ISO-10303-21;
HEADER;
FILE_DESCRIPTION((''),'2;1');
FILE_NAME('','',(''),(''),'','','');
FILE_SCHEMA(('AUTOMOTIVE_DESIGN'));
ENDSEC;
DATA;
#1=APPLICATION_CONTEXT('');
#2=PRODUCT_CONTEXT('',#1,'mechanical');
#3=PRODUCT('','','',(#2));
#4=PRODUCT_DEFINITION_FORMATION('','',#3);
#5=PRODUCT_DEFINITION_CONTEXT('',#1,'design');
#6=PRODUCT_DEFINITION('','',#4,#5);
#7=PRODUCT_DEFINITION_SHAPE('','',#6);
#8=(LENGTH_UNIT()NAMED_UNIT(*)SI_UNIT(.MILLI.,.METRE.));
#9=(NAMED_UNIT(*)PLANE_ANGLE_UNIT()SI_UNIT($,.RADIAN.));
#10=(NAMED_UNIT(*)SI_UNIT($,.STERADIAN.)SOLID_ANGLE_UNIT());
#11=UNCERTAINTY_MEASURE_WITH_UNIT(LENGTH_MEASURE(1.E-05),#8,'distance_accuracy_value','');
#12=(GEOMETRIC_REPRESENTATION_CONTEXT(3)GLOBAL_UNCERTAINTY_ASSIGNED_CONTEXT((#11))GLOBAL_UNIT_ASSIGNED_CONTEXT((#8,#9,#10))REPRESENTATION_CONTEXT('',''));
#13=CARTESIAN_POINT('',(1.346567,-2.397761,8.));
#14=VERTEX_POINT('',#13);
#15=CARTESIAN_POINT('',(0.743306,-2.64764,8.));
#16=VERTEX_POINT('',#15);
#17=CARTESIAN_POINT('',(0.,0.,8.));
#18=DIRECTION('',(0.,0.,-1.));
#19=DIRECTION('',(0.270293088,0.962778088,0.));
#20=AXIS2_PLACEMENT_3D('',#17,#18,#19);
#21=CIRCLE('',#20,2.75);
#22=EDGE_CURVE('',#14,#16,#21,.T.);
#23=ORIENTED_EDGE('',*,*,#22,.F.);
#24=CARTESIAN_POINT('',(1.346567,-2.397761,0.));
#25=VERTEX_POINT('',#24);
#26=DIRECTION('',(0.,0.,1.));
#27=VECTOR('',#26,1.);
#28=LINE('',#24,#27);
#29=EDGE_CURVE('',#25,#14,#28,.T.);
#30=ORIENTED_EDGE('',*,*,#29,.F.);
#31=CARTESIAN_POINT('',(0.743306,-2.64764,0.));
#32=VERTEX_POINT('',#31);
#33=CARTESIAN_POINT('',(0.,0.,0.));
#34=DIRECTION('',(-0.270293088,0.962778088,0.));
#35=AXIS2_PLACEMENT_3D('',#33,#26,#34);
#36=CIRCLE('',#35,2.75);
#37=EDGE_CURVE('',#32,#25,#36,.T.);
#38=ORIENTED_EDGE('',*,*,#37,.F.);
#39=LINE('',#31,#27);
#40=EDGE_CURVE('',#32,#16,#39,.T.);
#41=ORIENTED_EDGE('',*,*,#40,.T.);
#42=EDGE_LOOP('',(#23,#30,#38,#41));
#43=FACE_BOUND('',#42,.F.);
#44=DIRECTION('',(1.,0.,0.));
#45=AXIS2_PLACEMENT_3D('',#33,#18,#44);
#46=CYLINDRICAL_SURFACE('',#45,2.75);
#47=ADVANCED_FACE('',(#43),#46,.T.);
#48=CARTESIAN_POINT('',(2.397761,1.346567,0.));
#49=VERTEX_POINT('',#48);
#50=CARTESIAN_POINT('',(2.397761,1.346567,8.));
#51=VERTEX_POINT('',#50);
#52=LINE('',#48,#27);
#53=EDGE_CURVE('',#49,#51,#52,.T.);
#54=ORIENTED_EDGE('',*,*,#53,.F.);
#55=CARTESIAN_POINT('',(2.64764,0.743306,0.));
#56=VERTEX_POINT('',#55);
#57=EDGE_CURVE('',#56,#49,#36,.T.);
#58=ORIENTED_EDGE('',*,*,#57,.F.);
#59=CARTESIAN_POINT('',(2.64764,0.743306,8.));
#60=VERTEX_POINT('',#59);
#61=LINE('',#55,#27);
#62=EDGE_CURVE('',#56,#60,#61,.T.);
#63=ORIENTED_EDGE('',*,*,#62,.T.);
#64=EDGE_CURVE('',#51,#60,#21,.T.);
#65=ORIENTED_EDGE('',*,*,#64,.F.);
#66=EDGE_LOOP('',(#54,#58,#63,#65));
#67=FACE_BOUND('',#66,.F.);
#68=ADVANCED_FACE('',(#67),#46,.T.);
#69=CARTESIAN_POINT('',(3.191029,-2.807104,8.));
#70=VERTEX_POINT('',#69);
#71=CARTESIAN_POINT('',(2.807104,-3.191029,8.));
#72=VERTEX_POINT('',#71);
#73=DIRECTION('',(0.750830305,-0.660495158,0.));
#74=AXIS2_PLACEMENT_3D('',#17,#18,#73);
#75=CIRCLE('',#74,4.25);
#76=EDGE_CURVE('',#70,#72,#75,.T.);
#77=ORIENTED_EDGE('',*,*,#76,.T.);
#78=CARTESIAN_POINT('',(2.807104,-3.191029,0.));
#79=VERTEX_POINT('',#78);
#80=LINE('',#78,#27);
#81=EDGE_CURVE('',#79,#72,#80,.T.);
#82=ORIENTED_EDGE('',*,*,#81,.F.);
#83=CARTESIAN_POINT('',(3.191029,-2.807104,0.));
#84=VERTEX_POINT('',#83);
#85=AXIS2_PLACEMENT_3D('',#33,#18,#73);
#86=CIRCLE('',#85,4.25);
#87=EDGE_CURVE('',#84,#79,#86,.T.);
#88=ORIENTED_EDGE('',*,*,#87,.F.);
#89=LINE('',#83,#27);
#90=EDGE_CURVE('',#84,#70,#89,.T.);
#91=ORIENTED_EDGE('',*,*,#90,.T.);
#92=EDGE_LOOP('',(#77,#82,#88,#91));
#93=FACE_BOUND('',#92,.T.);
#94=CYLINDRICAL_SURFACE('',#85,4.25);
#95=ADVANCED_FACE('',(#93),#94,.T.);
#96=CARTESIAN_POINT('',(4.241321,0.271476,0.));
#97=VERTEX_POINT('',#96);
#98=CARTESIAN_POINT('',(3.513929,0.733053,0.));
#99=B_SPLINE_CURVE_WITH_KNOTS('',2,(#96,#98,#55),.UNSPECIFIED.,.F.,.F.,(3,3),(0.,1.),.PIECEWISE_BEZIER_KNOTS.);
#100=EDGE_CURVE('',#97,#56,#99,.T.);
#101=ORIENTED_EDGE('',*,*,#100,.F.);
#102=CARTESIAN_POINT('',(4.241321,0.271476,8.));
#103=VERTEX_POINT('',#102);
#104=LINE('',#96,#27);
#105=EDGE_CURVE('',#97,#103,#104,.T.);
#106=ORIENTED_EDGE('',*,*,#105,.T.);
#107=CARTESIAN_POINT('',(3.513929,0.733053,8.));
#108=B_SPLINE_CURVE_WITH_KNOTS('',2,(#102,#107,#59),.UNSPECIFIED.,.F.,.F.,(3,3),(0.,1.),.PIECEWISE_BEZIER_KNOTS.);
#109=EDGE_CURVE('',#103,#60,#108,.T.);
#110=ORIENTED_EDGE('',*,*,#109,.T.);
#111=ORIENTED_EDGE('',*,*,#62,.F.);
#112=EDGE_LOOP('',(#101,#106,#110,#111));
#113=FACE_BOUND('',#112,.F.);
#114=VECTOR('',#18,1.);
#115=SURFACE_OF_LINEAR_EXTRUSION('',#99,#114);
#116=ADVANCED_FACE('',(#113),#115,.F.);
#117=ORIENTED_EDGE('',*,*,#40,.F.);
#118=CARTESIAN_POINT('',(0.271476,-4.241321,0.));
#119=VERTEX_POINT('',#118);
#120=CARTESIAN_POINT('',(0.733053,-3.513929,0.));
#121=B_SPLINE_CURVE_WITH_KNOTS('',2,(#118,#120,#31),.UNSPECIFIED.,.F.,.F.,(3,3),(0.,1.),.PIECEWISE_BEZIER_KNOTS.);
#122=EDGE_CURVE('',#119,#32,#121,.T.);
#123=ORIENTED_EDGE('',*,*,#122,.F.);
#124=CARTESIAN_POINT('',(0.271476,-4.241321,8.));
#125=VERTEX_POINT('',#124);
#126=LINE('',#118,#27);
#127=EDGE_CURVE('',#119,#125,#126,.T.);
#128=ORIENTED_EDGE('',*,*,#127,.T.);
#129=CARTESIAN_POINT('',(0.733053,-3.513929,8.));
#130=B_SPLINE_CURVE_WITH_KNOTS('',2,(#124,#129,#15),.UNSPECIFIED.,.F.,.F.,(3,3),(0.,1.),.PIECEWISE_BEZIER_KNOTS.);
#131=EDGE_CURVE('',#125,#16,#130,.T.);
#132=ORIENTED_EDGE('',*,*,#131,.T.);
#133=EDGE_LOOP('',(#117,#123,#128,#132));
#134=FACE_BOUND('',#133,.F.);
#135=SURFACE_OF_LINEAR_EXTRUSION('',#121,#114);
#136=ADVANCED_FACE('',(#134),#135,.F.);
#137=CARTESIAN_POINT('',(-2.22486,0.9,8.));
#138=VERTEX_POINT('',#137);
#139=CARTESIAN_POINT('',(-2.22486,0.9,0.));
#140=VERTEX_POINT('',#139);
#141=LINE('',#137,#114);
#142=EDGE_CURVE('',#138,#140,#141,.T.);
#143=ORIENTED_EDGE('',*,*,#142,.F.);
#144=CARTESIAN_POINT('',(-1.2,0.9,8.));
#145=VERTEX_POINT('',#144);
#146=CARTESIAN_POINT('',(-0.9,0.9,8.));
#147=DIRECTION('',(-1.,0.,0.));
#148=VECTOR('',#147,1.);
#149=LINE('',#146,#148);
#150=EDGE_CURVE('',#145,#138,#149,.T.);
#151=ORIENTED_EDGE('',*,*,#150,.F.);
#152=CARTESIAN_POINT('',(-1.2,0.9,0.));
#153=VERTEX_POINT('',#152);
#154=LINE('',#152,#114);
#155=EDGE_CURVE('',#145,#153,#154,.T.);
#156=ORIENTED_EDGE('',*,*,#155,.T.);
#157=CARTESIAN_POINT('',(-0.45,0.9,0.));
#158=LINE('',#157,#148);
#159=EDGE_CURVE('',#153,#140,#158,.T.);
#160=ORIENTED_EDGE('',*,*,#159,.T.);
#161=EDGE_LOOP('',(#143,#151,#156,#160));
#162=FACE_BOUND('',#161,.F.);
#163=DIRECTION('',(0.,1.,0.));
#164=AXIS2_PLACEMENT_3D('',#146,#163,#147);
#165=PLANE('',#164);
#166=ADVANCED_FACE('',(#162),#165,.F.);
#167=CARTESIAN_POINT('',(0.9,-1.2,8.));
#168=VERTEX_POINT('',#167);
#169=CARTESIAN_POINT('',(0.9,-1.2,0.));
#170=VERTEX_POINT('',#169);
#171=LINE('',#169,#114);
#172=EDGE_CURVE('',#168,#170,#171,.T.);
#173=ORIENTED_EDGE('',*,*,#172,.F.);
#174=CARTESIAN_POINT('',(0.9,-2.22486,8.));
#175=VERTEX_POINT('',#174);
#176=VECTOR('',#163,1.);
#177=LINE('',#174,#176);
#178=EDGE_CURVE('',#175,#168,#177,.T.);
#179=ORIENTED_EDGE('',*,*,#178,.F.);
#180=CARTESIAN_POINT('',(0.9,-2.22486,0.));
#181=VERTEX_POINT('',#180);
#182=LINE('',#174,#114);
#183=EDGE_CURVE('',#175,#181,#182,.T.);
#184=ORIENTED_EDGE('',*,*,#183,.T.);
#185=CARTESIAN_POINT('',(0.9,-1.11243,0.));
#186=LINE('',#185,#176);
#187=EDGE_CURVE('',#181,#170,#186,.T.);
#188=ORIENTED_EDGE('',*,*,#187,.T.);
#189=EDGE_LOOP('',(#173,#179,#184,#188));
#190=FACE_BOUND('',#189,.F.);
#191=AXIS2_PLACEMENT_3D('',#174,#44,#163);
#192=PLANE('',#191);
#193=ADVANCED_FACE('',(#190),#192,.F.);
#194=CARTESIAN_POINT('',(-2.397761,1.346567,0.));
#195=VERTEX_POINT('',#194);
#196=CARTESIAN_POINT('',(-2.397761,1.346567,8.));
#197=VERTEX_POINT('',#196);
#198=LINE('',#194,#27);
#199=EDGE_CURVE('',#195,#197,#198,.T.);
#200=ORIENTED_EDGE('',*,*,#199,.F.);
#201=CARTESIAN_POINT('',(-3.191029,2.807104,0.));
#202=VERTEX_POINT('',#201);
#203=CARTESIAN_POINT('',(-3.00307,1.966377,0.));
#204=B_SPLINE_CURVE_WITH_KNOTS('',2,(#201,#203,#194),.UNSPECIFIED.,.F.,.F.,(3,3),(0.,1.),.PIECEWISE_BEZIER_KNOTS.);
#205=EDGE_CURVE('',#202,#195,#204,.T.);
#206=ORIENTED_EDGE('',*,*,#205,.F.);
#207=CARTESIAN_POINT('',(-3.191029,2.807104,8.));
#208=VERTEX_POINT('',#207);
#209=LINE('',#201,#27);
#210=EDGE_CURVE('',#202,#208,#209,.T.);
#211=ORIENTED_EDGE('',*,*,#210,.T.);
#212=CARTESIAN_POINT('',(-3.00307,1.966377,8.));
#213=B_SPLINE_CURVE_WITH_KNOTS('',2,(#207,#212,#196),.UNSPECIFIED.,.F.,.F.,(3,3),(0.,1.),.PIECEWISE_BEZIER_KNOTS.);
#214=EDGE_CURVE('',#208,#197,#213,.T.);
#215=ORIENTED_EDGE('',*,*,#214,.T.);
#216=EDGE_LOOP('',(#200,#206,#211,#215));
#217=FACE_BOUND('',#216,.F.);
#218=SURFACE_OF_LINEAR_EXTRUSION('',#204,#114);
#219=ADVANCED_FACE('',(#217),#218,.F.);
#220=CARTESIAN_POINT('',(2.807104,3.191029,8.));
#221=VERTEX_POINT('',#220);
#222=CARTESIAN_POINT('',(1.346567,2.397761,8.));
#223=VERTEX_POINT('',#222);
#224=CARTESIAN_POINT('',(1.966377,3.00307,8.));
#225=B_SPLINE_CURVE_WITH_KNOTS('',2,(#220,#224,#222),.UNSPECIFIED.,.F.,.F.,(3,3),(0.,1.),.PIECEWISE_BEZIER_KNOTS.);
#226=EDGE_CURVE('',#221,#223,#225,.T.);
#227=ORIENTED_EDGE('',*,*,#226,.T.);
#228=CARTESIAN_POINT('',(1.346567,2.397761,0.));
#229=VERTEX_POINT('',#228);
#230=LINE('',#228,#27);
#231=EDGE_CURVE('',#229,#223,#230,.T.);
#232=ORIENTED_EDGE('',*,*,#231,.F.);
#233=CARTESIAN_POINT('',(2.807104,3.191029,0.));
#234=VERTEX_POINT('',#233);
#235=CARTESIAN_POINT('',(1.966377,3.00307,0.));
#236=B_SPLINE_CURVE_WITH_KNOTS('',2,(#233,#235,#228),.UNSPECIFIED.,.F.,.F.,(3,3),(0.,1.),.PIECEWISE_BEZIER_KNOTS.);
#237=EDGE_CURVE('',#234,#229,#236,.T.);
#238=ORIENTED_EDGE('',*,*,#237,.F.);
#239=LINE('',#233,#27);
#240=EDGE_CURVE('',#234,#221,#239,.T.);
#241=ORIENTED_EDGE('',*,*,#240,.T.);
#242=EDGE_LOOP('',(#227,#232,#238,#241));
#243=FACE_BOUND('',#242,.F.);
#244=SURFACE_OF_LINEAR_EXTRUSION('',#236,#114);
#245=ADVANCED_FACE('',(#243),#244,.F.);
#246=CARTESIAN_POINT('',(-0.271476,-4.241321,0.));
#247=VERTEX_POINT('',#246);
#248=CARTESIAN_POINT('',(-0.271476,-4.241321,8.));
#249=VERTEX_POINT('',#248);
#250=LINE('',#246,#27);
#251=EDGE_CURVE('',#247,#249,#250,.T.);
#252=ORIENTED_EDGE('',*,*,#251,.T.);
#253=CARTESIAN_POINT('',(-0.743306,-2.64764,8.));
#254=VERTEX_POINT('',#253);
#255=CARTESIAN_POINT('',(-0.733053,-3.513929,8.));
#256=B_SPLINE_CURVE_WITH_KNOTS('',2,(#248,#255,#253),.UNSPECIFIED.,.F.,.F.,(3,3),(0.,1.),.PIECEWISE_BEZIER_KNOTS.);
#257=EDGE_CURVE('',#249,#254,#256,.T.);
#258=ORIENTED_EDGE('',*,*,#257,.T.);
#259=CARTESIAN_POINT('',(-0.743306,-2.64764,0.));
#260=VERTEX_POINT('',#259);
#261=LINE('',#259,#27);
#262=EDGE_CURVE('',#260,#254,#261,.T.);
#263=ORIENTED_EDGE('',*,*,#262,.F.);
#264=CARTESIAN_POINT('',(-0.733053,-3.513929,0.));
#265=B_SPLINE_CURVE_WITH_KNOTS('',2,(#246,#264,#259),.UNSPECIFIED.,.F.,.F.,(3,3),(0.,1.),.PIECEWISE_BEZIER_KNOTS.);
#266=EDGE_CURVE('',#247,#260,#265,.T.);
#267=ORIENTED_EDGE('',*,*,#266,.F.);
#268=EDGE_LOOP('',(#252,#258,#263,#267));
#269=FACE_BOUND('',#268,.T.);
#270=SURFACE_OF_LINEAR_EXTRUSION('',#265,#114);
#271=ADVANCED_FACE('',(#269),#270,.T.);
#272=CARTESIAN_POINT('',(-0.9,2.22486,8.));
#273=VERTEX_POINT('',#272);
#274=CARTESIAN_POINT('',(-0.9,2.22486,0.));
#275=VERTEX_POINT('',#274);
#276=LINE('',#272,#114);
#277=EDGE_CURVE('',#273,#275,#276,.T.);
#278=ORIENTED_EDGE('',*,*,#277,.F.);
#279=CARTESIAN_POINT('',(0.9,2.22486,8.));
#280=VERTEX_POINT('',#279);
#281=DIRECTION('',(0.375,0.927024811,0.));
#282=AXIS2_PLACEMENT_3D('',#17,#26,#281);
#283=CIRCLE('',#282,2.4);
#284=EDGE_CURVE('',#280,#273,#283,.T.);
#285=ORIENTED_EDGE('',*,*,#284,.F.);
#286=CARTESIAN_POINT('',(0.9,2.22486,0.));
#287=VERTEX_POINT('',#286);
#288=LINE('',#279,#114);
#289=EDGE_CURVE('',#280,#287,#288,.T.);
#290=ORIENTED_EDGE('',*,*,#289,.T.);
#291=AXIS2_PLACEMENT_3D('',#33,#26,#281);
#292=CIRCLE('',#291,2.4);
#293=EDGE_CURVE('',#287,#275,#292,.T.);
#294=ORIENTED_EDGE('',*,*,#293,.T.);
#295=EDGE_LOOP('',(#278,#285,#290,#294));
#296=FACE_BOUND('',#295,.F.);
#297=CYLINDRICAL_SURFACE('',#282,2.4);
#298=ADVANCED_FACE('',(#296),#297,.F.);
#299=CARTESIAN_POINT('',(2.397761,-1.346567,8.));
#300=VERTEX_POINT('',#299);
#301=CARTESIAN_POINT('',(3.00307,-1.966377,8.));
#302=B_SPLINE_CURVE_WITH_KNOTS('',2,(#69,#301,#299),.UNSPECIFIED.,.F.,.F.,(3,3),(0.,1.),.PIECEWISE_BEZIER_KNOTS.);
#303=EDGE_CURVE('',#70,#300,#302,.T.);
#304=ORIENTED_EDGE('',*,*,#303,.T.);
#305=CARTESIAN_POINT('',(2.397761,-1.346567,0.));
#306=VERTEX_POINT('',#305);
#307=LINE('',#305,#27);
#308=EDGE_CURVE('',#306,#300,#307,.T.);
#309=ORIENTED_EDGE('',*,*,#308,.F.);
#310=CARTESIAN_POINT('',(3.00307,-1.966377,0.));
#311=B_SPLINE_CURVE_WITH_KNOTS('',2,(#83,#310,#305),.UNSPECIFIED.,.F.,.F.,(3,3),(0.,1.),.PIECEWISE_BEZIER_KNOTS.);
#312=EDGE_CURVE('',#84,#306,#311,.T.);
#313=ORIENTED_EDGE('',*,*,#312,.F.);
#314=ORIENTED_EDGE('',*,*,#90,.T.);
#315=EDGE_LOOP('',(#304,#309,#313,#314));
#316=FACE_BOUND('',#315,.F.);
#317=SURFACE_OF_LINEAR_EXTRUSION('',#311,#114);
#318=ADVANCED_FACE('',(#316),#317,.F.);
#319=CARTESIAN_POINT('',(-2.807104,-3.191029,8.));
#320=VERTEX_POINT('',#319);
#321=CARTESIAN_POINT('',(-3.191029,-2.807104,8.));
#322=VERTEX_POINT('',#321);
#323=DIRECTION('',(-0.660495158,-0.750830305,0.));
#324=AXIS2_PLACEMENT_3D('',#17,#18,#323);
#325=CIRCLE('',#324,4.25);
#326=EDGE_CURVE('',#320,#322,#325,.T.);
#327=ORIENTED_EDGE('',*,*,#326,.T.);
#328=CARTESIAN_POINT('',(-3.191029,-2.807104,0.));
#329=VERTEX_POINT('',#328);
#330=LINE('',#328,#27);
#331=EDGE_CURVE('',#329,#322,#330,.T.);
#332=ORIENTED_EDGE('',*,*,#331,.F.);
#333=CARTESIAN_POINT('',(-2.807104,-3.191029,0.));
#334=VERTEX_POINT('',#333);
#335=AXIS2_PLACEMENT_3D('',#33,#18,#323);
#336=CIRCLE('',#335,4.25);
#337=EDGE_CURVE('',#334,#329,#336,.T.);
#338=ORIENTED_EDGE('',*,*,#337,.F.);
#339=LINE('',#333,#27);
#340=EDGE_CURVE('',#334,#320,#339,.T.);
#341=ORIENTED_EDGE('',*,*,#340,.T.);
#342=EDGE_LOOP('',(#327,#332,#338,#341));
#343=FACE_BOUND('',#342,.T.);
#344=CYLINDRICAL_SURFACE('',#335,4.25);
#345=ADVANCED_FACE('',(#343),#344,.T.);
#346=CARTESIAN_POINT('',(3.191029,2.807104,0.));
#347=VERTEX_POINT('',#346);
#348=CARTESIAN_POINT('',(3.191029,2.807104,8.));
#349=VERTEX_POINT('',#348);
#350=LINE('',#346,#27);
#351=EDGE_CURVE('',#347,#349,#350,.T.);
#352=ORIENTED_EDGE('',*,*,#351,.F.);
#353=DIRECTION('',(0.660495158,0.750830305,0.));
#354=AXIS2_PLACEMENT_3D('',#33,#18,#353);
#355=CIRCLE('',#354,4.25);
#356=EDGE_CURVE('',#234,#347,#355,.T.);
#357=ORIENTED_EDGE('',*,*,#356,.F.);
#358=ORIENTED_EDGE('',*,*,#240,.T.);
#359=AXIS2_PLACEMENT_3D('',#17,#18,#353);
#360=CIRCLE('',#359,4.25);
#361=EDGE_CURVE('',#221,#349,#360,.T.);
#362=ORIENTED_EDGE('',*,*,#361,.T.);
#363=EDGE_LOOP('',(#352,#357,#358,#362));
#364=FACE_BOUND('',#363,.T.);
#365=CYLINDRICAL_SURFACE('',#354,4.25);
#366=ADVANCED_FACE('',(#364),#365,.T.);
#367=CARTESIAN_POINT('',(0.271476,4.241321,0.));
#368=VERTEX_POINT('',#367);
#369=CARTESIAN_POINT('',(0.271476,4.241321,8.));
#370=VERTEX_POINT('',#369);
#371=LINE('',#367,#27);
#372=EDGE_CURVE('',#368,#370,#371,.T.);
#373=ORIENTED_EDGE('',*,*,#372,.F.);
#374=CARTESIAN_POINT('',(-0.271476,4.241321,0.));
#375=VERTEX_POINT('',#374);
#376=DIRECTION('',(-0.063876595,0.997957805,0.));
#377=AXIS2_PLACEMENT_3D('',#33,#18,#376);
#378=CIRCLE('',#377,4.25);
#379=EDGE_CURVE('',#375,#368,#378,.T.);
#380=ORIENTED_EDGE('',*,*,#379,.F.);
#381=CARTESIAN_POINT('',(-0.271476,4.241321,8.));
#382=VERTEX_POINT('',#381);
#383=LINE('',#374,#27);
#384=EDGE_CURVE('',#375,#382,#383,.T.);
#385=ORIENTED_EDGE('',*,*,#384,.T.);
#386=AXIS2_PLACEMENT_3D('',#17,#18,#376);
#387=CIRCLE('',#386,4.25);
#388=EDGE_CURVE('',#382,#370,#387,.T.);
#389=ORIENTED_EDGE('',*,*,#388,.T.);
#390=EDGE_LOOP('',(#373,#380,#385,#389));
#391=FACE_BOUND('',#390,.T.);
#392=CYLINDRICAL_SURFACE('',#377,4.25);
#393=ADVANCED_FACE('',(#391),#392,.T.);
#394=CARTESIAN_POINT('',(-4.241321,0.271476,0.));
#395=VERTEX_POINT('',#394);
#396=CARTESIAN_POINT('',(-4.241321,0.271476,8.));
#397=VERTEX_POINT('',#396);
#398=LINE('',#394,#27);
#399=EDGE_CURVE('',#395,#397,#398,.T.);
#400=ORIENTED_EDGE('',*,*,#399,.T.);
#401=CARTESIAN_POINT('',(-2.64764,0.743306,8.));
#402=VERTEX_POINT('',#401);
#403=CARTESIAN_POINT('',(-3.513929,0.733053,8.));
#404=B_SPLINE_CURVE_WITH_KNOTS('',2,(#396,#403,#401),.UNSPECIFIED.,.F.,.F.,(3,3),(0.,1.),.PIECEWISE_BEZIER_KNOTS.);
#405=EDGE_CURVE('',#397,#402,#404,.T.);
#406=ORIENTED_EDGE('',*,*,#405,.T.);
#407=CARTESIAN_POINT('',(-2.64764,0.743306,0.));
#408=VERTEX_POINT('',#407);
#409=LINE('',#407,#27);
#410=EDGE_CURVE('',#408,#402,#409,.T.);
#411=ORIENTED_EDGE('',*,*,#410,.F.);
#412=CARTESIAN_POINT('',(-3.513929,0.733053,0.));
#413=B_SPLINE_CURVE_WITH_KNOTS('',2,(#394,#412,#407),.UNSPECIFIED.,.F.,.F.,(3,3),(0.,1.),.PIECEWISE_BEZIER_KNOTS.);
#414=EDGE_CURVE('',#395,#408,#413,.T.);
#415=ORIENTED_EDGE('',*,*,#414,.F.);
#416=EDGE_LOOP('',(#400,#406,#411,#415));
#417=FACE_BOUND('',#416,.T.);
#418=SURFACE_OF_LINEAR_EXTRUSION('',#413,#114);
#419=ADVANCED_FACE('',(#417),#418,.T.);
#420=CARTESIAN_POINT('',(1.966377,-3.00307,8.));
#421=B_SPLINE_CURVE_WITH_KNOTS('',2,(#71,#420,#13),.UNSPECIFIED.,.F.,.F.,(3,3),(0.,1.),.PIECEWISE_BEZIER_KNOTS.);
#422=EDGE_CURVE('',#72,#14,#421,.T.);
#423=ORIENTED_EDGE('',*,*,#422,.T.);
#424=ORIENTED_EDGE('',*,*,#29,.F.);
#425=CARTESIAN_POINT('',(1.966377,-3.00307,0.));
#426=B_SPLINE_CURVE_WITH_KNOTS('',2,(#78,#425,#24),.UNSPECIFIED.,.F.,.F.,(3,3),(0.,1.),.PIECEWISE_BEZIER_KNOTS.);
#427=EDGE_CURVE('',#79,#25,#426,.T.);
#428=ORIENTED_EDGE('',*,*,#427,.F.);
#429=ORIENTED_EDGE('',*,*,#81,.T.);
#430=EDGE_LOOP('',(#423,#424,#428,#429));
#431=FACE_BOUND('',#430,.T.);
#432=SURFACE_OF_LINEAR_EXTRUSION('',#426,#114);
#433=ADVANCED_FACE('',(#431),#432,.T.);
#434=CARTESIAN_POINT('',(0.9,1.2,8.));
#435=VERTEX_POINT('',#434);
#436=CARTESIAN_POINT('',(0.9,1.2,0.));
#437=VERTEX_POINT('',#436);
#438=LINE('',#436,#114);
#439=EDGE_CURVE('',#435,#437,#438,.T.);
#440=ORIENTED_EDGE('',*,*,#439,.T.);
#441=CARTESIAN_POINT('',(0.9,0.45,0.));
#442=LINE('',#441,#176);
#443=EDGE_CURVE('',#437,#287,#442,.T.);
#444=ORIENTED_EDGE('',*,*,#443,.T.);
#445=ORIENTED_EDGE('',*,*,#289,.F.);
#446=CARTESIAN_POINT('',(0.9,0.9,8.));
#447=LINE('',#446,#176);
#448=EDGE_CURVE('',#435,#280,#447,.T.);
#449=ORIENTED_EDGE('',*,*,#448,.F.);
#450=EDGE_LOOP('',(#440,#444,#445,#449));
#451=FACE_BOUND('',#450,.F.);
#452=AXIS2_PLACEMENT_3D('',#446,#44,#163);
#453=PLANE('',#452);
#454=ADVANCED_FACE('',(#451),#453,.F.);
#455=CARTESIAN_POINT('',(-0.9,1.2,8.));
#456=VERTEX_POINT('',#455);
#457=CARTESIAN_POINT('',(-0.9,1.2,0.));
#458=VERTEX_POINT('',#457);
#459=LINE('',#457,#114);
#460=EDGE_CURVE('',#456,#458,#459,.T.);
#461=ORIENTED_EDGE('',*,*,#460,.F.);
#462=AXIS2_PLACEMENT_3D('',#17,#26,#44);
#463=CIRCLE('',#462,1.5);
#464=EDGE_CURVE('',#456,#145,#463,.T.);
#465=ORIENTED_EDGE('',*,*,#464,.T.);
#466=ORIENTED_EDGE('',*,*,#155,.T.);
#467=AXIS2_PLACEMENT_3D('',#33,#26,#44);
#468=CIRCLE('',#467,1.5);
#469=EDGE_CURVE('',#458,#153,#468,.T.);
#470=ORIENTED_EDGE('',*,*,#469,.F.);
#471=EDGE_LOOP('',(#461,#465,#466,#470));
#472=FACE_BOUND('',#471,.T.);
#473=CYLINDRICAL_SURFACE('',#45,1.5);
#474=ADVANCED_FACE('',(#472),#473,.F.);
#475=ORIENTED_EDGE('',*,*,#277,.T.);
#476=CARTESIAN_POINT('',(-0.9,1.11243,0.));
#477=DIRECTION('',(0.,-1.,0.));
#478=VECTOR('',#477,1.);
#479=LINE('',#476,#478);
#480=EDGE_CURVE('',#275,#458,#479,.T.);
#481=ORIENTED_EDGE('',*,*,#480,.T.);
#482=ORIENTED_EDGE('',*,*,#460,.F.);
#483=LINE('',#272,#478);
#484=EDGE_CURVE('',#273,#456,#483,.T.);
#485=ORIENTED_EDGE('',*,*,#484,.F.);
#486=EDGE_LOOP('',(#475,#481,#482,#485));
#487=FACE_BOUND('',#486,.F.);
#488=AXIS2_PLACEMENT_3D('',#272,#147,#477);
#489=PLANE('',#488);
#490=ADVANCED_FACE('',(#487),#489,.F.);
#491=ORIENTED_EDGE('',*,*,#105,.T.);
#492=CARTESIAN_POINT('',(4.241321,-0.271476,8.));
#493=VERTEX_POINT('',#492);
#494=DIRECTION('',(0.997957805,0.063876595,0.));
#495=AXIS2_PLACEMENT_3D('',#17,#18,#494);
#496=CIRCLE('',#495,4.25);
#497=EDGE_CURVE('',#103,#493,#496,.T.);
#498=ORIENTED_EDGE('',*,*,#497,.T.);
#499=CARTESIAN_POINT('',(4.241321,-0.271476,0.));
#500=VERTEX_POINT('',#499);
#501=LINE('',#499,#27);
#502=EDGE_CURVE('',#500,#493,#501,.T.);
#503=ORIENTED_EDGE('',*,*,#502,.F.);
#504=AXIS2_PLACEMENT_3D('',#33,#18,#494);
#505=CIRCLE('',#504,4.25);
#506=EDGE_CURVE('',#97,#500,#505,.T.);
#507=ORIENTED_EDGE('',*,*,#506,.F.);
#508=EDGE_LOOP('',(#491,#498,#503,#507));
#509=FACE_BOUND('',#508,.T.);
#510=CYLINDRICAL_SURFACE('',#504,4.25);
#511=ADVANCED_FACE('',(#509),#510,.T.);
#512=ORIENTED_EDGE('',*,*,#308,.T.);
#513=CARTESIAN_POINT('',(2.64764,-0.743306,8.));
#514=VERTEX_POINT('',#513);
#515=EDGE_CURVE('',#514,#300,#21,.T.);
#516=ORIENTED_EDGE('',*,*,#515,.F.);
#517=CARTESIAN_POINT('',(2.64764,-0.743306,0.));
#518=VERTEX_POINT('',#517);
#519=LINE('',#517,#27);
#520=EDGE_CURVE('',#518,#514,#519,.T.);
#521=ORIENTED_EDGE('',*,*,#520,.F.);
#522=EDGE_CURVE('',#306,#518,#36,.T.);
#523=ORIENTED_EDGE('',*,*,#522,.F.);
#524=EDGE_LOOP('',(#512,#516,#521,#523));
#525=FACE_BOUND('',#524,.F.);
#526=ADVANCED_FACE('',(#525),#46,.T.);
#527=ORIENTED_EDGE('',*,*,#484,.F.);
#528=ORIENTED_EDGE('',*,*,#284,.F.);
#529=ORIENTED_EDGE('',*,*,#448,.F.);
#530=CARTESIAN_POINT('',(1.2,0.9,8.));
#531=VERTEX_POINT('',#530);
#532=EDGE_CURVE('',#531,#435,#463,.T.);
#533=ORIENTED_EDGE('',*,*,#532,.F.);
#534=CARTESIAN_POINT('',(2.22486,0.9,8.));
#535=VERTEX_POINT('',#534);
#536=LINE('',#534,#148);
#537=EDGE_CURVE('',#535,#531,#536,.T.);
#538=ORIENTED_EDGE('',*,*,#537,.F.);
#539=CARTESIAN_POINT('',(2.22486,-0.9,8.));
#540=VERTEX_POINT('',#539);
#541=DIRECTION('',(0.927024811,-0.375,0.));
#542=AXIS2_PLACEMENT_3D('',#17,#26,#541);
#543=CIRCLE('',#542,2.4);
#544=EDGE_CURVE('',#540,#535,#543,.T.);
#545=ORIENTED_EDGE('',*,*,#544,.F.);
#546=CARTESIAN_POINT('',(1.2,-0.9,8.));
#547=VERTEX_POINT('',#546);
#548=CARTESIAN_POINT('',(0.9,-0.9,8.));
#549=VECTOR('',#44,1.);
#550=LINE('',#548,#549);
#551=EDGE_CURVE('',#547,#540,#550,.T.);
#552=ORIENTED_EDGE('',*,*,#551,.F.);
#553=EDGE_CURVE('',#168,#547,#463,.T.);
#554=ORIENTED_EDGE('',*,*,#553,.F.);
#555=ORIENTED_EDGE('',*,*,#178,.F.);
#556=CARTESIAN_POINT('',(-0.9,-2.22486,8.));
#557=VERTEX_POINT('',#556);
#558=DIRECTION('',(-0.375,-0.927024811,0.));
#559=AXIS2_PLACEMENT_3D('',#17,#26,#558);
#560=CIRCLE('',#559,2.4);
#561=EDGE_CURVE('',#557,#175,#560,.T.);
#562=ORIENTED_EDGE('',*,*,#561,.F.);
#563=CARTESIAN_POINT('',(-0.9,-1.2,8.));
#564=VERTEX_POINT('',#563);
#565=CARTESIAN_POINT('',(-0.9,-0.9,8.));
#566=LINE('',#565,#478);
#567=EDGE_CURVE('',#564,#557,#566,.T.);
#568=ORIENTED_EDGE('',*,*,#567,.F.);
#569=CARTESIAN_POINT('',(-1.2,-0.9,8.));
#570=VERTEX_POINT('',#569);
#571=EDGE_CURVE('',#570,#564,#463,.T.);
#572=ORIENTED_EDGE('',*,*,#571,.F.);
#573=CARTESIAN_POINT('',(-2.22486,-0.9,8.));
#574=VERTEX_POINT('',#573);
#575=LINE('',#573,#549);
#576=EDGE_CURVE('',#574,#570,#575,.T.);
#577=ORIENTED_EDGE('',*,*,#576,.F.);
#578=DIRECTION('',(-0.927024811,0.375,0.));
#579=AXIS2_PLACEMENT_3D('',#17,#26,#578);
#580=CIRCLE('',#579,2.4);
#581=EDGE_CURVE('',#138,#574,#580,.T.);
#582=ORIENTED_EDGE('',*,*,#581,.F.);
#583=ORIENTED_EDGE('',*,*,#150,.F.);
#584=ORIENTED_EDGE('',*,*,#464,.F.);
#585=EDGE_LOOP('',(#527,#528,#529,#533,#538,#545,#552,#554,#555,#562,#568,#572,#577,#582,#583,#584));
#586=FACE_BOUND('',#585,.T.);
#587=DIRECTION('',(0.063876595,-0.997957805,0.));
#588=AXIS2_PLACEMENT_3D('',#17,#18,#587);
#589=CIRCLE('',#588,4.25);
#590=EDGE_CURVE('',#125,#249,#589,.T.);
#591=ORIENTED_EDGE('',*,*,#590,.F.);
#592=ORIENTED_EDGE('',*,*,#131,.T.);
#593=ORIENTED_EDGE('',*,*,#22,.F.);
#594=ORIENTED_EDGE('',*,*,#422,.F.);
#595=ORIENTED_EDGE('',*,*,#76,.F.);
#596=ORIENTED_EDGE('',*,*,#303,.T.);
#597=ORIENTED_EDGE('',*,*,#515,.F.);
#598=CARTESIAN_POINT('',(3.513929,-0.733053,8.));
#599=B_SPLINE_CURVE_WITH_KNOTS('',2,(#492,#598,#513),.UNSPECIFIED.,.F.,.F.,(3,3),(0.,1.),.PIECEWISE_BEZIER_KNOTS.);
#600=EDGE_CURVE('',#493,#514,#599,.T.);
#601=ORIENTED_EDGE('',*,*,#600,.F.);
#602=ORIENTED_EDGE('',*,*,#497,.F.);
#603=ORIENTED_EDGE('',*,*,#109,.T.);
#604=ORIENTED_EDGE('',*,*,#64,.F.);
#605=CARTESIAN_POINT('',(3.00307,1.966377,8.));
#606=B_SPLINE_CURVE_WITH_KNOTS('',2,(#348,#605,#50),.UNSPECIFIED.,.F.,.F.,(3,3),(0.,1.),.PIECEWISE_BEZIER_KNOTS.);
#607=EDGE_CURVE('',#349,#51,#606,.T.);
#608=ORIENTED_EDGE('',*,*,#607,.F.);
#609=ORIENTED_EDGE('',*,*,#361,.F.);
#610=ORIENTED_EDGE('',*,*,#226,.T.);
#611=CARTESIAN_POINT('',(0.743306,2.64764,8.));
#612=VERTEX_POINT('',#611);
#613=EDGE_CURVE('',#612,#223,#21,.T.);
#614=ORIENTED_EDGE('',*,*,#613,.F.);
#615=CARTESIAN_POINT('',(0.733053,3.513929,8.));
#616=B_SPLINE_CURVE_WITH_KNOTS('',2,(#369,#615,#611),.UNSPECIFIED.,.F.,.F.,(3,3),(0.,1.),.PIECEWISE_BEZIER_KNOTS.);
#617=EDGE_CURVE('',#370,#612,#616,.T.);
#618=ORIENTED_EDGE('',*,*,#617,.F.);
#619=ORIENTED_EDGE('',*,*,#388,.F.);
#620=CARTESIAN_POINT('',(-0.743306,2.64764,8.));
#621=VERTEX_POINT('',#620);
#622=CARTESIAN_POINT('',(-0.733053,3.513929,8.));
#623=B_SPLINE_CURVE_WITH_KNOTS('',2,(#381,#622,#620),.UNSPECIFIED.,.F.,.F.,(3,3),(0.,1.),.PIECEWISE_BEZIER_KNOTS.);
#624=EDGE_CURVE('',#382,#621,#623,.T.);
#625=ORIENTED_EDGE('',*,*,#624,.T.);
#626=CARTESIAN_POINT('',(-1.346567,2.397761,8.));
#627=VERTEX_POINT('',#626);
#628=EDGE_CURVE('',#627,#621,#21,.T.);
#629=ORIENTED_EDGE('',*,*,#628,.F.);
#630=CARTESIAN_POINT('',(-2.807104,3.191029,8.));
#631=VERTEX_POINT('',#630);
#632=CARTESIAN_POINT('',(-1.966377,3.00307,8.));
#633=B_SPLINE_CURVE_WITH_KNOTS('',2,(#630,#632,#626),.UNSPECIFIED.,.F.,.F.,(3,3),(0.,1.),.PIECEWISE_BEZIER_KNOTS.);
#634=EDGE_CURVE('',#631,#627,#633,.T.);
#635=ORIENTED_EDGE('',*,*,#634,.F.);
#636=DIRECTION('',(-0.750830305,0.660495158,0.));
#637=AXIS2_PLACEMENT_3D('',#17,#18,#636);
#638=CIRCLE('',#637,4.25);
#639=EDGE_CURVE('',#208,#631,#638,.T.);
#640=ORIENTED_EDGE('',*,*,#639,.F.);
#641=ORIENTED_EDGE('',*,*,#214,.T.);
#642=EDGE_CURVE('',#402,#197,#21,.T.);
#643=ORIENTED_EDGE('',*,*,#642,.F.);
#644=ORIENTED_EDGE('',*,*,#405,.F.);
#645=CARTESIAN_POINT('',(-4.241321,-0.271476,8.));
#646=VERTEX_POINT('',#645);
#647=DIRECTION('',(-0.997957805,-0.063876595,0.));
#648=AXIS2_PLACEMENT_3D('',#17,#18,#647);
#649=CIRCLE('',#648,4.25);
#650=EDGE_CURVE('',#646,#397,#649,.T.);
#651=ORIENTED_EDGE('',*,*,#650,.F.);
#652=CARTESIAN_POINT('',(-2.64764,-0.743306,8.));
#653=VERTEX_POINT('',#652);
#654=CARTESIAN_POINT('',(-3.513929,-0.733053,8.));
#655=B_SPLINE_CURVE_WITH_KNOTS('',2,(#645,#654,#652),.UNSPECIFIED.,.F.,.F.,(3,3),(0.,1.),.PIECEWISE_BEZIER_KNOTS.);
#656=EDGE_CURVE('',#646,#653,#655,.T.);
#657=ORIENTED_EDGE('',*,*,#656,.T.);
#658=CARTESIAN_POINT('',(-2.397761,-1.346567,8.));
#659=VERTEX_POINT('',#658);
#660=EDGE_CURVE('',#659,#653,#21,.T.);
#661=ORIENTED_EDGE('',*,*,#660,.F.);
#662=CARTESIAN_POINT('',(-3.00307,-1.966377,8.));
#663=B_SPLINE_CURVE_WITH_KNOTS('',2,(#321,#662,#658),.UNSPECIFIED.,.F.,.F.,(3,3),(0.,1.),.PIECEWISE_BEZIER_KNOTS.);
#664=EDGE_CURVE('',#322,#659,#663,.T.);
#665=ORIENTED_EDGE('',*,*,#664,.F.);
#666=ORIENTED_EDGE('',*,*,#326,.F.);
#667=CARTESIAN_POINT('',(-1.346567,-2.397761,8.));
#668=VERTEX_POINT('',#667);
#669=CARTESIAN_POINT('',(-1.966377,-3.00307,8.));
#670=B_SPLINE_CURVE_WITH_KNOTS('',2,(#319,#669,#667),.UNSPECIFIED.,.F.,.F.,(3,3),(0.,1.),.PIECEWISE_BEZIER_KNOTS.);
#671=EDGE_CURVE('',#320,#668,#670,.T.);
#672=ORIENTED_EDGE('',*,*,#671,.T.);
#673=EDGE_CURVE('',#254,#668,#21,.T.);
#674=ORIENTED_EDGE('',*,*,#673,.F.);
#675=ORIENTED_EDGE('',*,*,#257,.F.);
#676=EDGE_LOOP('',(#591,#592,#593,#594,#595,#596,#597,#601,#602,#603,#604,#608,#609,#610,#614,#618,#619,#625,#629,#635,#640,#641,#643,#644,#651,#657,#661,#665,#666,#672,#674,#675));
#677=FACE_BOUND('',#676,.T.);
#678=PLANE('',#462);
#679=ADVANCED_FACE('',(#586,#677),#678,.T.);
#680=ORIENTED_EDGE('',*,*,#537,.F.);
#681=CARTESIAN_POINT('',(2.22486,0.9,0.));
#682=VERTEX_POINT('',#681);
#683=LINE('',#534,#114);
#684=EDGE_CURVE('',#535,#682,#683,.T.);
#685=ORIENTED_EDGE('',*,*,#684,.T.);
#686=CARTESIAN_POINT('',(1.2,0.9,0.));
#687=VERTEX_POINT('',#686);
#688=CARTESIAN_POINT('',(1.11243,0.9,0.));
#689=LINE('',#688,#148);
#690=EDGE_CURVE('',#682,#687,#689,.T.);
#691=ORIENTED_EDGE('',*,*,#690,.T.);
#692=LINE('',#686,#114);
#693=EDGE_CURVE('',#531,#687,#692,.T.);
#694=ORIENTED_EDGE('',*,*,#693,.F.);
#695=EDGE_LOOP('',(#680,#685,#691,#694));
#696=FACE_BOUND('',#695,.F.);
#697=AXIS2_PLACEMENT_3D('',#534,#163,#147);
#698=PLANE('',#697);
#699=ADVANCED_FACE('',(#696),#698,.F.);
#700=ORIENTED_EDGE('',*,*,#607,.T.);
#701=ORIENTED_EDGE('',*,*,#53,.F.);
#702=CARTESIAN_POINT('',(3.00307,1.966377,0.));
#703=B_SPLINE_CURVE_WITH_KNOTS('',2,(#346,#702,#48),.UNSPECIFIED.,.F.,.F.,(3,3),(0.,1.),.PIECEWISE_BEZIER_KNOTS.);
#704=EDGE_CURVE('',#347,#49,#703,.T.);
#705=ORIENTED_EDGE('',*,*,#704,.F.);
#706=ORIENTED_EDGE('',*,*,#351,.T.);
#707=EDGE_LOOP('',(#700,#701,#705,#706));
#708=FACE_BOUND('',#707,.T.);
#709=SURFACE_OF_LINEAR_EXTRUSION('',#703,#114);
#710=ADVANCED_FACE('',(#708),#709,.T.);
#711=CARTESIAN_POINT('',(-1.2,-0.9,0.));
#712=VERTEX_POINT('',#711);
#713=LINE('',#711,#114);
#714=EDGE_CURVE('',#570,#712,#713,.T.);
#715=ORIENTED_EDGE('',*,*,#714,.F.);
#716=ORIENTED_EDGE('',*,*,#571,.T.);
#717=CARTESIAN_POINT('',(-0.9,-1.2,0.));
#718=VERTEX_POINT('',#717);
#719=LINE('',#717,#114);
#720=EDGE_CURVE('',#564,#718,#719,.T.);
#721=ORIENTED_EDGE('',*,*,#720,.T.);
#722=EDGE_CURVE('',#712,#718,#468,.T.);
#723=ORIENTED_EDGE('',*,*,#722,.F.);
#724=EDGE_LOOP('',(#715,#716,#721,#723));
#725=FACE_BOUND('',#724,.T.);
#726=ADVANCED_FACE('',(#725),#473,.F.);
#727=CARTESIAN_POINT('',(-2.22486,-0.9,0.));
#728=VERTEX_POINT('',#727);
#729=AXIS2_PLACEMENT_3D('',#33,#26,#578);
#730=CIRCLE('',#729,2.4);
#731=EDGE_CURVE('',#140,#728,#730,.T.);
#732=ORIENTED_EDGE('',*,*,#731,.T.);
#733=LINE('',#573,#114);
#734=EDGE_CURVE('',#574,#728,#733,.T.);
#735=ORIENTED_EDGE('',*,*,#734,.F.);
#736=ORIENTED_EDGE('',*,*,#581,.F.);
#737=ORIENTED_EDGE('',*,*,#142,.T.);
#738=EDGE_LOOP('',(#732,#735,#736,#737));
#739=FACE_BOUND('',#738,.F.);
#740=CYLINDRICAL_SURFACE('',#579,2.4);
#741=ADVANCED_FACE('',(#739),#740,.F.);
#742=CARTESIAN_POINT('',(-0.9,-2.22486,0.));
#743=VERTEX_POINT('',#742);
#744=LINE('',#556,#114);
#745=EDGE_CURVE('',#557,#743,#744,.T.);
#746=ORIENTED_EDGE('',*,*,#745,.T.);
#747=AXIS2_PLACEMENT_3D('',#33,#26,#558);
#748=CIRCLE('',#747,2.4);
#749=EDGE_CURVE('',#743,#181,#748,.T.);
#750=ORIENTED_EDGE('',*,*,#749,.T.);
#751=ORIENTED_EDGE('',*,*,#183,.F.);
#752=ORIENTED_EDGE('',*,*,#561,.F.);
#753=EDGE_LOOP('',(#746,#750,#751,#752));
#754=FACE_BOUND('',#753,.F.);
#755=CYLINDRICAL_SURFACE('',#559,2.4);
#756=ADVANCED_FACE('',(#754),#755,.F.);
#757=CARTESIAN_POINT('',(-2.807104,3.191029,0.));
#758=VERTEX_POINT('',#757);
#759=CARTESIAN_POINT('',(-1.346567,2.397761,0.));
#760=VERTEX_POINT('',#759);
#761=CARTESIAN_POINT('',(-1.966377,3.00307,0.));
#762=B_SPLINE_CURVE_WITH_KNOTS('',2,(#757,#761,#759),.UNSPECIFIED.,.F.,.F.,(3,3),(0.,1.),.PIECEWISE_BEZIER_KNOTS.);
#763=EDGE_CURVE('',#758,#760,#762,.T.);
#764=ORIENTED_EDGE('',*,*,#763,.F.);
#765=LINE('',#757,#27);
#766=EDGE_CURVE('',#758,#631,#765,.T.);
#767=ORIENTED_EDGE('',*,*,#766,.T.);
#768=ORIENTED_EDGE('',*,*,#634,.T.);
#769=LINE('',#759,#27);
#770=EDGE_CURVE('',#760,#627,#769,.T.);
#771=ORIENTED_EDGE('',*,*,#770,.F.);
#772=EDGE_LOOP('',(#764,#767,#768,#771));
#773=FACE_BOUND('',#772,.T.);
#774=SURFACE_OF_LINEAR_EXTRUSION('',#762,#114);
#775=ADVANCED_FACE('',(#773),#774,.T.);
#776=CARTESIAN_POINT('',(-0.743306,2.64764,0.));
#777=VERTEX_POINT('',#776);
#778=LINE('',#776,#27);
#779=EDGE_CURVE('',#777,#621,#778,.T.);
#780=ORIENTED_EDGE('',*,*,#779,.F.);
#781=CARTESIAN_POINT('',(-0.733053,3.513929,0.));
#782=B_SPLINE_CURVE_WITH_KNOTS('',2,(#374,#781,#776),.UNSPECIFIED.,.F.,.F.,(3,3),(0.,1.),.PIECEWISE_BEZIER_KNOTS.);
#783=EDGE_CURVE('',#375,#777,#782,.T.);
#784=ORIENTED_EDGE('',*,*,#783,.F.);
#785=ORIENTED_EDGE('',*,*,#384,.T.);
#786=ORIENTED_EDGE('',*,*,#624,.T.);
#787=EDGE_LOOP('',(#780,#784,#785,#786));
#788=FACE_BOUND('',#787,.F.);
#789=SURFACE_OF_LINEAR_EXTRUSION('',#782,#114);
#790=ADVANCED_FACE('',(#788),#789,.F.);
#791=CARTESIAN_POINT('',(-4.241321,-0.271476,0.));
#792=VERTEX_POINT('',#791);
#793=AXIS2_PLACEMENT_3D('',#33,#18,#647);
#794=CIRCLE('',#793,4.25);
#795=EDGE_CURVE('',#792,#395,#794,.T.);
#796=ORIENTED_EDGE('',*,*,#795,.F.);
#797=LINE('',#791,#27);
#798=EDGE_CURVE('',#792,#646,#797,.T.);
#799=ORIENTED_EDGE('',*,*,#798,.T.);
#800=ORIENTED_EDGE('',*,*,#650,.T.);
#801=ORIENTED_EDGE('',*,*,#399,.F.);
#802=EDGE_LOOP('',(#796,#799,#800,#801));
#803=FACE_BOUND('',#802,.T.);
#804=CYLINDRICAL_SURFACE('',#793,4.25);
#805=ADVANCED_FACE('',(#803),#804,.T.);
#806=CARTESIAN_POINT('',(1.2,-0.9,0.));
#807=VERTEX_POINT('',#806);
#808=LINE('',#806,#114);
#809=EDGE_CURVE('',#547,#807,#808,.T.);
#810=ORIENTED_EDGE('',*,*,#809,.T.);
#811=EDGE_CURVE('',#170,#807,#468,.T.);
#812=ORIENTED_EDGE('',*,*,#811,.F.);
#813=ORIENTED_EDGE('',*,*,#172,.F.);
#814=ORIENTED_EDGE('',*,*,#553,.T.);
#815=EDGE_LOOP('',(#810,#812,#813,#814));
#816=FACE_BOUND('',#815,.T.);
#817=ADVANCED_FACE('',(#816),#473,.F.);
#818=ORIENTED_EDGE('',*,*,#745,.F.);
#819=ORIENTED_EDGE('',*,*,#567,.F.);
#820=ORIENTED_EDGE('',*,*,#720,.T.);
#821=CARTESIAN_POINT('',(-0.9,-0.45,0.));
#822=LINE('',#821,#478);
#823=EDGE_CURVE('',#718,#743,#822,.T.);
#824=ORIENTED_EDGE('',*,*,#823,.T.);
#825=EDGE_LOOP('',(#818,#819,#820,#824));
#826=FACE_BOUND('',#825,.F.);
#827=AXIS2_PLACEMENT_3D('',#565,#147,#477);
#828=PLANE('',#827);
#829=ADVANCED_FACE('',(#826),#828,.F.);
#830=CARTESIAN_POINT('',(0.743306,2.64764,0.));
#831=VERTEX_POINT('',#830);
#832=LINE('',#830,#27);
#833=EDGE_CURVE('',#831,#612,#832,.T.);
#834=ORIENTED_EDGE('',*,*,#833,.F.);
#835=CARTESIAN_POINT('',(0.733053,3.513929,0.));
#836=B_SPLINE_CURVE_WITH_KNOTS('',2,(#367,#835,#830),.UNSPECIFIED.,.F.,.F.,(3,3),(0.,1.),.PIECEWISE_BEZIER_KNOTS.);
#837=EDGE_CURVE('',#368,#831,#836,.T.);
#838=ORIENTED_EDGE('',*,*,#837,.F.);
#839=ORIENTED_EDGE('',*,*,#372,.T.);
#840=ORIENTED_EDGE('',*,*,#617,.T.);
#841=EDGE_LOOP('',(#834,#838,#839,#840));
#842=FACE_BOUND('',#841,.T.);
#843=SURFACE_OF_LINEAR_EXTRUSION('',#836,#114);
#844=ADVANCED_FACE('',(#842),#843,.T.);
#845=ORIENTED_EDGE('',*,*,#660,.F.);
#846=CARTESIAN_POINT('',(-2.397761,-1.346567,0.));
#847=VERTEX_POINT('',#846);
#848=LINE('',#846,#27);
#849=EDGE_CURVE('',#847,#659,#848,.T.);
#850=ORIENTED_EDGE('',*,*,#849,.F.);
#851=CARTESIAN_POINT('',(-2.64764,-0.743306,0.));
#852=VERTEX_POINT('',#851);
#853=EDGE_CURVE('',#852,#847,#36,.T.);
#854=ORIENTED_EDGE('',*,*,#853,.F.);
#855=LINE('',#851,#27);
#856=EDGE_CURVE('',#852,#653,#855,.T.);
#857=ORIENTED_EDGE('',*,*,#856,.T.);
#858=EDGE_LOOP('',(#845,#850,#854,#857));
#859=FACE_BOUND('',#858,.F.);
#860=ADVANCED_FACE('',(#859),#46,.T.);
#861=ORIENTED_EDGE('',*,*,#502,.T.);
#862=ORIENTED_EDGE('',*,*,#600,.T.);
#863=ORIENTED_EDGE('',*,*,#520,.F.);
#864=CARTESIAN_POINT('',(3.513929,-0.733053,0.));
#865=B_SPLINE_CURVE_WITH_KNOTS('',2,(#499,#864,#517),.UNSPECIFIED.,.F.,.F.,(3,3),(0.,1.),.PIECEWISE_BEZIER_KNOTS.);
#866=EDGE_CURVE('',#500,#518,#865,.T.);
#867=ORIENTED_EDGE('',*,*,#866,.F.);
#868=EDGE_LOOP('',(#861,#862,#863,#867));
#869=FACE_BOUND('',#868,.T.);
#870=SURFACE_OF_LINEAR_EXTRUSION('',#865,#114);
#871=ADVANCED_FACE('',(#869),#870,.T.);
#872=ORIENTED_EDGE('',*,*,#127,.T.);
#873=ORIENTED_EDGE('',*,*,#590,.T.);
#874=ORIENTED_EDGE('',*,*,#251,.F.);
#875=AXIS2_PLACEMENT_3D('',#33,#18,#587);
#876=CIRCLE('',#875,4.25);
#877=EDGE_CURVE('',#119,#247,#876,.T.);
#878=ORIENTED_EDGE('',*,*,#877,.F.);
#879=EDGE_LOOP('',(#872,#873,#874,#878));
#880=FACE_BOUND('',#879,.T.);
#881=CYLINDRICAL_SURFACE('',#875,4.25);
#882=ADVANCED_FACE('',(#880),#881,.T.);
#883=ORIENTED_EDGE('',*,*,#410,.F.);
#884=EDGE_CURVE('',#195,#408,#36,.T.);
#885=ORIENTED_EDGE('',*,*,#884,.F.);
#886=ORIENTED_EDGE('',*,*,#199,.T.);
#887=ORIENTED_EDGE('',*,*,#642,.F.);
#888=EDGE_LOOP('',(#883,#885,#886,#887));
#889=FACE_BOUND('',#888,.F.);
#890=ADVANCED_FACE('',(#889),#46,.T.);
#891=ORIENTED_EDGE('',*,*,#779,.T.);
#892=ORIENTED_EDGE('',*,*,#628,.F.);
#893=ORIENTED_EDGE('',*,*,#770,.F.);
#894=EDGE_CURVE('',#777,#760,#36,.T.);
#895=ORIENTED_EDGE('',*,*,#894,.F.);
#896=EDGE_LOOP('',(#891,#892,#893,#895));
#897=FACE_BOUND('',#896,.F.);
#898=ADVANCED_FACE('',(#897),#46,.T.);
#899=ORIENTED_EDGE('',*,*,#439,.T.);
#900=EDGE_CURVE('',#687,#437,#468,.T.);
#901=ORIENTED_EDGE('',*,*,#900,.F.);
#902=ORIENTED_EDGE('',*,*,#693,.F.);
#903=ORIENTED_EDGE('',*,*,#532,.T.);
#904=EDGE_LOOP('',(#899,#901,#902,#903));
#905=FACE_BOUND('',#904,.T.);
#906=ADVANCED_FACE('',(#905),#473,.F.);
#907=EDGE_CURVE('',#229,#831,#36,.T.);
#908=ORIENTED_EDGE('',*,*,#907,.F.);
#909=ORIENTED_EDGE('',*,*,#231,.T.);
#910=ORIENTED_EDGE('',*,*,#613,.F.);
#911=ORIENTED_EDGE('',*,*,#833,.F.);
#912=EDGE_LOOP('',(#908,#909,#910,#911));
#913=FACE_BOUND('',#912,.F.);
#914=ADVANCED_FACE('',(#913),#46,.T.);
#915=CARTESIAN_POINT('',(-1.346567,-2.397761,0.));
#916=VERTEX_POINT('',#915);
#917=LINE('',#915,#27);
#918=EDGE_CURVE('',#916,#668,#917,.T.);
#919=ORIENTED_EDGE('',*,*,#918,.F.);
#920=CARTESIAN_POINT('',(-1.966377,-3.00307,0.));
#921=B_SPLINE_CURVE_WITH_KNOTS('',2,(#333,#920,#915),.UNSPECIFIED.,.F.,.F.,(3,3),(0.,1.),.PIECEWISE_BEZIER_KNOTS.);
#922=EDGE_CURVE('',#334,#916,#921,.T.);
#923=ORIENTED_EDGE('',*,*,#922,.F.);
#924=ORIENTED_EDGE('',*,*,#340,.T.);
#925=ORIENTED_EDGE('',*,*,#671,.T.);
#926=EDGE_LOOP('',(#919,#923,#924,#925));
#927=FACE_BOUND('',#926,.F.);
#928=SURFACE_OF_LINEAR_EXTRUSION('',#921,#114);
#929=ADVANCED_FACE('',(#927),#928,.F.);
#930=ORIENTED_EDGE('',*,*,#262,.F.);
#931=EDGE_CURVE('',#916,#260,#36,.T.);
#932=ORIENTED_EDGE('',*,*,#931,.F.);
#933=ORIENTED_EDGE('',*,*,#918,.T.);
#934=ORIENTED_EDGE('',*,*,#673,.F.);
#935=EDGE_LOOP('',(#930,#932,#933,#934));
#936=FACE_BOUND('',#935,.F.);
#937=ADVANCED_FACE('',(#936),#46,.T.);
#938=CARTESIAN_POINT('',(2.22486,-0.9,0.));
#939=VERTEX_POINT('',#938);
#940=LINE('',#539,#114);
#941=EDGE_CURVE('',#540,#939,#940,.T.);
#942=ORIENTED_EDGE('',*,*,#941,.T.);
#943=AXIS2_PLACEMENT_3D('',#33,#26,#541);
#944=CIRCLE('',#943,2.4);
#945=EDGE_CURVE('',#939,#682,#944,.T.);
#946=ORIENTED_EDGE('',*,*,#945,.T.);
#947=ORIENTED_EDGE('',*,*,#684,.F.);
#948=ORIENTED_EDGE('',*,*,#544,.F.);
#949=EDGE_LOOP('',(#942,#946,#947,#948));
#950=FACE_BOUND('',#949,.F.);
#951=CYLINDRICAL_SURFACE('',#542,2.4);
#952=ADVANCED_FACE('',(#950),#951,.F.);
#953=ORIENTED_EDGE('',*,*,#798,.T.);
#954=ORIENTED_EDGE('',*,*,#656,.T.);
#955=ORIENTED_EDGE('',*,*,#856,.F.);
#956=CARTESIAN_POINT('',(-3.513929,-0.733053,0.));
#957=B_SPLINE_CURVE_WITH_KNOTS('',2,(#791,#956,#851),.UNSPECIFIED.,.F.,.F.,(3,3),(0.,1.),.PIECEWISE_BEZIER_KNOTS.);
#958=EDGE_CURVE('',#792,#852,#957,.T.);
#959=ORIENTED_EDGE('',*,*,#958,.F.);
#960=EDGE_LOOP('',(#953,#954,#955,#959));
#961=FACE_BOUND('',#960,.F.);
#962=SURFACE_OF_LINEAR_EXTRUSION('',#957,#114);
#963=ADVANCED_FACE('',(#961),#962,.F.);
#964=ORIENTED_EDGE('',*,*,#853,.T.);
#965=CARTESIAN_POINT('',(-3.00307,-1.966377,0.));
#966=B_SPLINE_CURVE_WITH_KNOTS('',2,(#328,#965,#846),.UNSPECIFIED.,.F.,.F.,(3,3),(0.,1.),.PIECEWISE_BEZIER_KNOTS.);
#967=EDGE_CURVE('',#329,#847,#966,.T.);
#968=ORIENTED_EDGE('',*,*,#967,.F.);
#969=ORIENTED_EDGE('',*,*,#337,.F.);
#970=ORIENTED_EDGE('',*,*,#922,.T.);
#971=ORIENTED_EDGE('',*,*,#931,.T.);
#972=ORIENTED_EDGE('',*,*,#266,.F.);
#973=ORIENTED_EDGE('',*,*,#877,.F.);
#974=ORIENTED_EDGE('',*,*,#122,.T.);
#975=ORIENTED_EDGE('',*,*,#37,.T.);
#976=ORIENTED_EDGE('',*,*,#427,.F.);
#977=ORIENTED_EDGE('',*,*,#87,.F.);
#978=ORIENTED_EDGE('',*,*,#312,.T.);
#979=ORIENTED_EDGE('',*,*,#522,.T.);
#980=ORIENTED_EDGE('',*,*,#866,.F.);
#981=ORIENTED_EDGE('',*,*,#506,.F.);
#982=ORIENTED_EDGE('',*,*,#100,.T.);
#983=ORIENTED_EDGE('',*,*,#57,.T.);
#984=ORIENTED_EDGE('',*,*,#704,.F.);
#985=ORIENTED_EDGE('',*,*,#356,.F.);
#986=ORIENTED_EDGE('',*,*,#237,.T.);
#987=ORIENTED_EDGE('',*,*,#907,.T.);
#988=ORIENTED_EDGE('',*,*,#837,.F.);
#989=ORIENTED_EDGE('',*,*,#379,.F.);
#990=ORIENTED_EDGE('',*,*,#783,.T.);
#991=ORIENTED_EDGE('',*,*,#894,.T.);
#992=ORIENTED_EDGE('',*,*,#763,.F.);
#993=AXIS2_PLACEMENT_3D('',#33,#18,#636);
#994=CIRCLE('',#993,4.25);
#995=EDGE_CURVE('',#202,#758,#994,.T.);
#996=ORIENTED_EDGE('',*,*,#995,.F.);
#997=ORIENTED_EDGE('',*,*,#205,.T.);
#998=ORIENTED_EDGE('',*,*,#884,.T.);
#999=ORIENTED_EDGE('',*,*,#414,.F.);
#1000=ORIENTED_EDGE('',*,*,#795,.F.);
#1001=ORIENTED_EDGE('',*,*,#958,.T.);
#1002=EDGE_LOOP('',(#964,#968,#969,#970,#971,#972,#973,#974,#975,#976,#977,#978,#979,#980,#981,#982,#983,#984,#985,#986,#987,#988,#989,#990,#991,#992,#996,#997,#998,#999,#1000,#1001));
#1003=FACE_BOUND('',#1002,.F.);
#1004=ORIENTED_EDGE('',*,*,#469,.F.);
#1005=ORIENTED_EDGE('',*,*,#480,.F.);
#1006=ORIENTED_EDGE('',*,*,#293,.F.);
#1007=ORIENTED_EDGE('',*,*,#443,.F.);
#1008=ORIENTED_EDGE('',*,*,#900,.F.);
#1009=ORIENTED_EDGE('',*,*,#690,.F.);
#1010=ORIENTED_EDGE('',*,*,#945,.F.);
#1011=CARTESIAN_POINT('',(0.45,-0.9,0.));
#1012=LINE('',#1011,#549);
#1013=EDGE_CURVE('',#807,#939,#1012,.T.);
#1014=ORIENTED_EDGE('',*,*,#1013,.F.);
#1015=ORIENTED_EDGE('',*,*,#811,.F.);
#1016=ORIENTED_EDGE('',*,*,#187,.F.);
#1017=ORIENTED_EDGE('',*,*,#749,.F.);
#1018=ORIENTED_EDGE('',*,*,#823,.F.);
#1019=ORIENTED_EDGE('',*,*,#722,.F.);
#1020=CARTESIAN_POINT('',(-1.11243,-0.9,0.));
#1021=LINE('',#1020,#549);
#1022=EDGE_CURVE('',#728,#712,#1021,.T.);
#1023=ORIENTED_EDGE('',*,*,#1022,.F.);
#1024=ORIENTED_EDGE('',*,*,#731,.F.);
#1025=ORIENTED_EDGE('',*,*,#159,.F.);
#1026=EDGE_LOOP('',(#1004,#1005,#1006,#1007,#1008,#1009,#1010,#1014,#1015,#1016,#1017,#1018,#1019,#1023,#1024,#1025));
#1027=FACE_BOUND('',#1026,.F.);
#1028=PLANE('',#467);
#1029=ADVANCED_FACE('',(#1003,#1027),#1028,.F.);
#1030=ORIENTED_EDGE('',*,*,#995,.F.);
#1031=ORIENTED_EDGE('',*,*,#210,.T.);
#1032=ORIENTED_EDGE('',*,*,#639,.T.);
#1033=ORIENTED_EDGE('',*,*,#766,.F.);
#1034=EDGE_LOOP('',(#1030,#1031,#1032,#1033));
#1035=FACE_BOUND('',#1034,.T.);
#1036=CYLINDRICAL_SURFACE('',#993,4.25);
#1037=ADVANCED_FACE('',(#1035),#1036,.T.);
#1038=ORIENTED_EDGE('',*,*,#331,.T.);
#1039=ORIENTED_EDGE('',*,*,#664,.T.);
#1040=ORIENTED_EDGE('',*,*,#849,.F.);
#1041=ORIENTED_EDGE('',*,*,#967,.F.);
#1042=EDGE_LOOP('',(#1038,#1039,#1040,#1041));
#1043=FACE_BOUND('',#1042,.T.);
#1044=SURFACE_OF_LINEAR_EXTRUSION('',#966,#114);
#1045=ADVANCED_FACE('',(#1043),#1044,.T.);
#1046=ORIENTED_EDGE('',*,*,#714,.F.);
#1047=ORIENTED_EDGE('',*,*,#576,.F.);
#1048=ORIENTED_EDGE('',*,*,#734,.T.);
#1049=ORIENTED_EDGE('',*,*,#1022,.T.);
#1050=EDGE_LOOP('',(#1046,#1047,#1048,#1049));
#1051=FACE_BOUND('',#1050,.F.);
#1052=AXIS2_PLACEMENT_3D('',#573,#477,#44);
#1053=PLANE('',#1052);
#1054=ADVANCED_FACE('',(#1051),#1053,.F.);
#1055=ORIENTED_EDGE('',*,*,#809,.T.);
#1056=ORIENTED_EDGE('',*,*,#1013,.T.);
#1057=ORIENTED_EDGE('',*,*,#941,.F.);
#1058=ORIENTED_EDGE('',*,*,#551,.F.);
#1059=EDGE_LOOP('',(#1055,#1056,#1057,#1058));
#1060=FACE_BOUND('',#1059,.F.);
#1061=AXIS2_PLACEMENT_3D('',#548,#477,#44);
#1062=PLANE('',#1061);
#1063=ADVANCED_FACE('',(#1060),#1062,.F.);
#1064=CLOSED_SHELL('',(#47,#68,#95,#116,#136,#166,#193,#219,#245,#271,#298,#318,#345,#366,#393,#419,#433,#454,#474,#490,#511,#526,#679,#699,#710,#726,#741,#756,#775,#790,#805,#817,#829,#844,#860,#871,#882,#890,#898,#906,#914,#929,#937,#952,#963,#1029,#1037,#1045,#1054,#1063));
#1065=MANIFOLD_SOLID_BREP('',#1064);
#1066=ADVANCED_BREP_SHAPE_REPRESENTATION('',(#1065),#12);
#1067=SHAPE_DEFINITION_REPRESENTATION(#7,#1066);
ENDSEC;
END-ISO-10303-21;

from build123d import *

# Parameters (mm, degrees)
SKETCH1_R           = 2.75
SKETCH1_R_2         = 1.5
BOSS_EXTRUDE1_DEPTH = 8
BOSS_EXTRUDE2_START = -8
BOSS_EXTRUDE2_DEPTH = 8
CIRPATTERN2_COUNT   = 8
CUT_EXTRUDE1_DEPTH  = 10


with BuildPart() as part:
    # Sketch1 → Boss-Extrude1 (new body)
    with BuildSketch(Plane.XY):
        Circle(SKETCH1_R)
        Circle(SKETCH1_R_2, mode=Mode.SUBTRACT)
    extrude(amount=BOSS_EXTRUDE1_DEPTH)

    # Sketch3 → Boss-Extrude2 (add)
    with BuildSketch(Plane.XY.offset(8).offset(BOSS_EXTRUDE2_START)):
        with BuildLine():
            ThreePointArc((0.743305991, 2.647639742), (0, 2.75), (-0.743305991, 2.647639742))
            add(Edge.make_bspline(
                [(-0.271475541, 4.241320671), (-0.733052657, 3.513929186), (-0.743305991, 2.647639742)],
                knots=[0, 0, 0, 1, 1, 1], degree=2))
            ThreePointArc((-0.271475541, 4.241320671), (0, 4.25), (0.271475541, 4.241320671))
            add(Edge.make_bspline(
                [(0.271475541, 4.241320671), (0.733052657, 3.513929186), (0.743305991, 2.647639742)],
                knots=[0, 0, 0, 1, 1, 1], degree=2))
        make_face()
    boss_extrude2 = extrude(amount=BOSS_EXTRUDE2_DEPTH)

    # CirPattern2: Boss-Extrude2 ×8 about axis
    cirpattern2_axis = Axis((0, 0, 8), (0, 0, -1))
    for i in range(1, CIRPATTERN2_COUNT):
        add(boss_extrude2.rotate(cirpattern2_axis, i * 360 / CIRPATTERN2_COUNT))

    # Sketch4 → Cut-Extrude1 (cut)
    with BuildSketch(Plane.XY.offset(8)):
        with BuildLine():
            Line((-0.9, 2.224859546), (-0.9, 0.9))
            Line((-0.9, 0.9), (-2.224859546, 0.9))
            ThreePointArc((-2.224859546, 0.9), (-2.4, 0), (-2.224859546, -0.9))
            Line((-2.224859546, -0.9), (-0.9, -0.9))
            Line((-0.9, -0.9), (-0.9, -2.224859546))
            ThreePointArc((-0.9, -2.224859546), (0, -2.4), (0.9, -2.224859546))
            Line((0.9, -2.224859546), (0.9, -0.9))
            Line((0.9, -0.9), (2.224859546, -0.9))
            ThreePointArc((2.224859546, -0.9), (2.4, 0), (2.224859546, 0.9))
            Line((2.224859546, 0.9), (0.9, 0.9))
            Line((0.9, 0.9), (0.9, 2.224859546))
            ThreePointArc((0.9, 2.224859546), (0, 2.4), (-0.9, 2.224859546))
        make_face()
    extrude(amount=-CUT_EXTRUDE1_DEPTH, mode=Mode.SUBTRACT)


solid = part.part
